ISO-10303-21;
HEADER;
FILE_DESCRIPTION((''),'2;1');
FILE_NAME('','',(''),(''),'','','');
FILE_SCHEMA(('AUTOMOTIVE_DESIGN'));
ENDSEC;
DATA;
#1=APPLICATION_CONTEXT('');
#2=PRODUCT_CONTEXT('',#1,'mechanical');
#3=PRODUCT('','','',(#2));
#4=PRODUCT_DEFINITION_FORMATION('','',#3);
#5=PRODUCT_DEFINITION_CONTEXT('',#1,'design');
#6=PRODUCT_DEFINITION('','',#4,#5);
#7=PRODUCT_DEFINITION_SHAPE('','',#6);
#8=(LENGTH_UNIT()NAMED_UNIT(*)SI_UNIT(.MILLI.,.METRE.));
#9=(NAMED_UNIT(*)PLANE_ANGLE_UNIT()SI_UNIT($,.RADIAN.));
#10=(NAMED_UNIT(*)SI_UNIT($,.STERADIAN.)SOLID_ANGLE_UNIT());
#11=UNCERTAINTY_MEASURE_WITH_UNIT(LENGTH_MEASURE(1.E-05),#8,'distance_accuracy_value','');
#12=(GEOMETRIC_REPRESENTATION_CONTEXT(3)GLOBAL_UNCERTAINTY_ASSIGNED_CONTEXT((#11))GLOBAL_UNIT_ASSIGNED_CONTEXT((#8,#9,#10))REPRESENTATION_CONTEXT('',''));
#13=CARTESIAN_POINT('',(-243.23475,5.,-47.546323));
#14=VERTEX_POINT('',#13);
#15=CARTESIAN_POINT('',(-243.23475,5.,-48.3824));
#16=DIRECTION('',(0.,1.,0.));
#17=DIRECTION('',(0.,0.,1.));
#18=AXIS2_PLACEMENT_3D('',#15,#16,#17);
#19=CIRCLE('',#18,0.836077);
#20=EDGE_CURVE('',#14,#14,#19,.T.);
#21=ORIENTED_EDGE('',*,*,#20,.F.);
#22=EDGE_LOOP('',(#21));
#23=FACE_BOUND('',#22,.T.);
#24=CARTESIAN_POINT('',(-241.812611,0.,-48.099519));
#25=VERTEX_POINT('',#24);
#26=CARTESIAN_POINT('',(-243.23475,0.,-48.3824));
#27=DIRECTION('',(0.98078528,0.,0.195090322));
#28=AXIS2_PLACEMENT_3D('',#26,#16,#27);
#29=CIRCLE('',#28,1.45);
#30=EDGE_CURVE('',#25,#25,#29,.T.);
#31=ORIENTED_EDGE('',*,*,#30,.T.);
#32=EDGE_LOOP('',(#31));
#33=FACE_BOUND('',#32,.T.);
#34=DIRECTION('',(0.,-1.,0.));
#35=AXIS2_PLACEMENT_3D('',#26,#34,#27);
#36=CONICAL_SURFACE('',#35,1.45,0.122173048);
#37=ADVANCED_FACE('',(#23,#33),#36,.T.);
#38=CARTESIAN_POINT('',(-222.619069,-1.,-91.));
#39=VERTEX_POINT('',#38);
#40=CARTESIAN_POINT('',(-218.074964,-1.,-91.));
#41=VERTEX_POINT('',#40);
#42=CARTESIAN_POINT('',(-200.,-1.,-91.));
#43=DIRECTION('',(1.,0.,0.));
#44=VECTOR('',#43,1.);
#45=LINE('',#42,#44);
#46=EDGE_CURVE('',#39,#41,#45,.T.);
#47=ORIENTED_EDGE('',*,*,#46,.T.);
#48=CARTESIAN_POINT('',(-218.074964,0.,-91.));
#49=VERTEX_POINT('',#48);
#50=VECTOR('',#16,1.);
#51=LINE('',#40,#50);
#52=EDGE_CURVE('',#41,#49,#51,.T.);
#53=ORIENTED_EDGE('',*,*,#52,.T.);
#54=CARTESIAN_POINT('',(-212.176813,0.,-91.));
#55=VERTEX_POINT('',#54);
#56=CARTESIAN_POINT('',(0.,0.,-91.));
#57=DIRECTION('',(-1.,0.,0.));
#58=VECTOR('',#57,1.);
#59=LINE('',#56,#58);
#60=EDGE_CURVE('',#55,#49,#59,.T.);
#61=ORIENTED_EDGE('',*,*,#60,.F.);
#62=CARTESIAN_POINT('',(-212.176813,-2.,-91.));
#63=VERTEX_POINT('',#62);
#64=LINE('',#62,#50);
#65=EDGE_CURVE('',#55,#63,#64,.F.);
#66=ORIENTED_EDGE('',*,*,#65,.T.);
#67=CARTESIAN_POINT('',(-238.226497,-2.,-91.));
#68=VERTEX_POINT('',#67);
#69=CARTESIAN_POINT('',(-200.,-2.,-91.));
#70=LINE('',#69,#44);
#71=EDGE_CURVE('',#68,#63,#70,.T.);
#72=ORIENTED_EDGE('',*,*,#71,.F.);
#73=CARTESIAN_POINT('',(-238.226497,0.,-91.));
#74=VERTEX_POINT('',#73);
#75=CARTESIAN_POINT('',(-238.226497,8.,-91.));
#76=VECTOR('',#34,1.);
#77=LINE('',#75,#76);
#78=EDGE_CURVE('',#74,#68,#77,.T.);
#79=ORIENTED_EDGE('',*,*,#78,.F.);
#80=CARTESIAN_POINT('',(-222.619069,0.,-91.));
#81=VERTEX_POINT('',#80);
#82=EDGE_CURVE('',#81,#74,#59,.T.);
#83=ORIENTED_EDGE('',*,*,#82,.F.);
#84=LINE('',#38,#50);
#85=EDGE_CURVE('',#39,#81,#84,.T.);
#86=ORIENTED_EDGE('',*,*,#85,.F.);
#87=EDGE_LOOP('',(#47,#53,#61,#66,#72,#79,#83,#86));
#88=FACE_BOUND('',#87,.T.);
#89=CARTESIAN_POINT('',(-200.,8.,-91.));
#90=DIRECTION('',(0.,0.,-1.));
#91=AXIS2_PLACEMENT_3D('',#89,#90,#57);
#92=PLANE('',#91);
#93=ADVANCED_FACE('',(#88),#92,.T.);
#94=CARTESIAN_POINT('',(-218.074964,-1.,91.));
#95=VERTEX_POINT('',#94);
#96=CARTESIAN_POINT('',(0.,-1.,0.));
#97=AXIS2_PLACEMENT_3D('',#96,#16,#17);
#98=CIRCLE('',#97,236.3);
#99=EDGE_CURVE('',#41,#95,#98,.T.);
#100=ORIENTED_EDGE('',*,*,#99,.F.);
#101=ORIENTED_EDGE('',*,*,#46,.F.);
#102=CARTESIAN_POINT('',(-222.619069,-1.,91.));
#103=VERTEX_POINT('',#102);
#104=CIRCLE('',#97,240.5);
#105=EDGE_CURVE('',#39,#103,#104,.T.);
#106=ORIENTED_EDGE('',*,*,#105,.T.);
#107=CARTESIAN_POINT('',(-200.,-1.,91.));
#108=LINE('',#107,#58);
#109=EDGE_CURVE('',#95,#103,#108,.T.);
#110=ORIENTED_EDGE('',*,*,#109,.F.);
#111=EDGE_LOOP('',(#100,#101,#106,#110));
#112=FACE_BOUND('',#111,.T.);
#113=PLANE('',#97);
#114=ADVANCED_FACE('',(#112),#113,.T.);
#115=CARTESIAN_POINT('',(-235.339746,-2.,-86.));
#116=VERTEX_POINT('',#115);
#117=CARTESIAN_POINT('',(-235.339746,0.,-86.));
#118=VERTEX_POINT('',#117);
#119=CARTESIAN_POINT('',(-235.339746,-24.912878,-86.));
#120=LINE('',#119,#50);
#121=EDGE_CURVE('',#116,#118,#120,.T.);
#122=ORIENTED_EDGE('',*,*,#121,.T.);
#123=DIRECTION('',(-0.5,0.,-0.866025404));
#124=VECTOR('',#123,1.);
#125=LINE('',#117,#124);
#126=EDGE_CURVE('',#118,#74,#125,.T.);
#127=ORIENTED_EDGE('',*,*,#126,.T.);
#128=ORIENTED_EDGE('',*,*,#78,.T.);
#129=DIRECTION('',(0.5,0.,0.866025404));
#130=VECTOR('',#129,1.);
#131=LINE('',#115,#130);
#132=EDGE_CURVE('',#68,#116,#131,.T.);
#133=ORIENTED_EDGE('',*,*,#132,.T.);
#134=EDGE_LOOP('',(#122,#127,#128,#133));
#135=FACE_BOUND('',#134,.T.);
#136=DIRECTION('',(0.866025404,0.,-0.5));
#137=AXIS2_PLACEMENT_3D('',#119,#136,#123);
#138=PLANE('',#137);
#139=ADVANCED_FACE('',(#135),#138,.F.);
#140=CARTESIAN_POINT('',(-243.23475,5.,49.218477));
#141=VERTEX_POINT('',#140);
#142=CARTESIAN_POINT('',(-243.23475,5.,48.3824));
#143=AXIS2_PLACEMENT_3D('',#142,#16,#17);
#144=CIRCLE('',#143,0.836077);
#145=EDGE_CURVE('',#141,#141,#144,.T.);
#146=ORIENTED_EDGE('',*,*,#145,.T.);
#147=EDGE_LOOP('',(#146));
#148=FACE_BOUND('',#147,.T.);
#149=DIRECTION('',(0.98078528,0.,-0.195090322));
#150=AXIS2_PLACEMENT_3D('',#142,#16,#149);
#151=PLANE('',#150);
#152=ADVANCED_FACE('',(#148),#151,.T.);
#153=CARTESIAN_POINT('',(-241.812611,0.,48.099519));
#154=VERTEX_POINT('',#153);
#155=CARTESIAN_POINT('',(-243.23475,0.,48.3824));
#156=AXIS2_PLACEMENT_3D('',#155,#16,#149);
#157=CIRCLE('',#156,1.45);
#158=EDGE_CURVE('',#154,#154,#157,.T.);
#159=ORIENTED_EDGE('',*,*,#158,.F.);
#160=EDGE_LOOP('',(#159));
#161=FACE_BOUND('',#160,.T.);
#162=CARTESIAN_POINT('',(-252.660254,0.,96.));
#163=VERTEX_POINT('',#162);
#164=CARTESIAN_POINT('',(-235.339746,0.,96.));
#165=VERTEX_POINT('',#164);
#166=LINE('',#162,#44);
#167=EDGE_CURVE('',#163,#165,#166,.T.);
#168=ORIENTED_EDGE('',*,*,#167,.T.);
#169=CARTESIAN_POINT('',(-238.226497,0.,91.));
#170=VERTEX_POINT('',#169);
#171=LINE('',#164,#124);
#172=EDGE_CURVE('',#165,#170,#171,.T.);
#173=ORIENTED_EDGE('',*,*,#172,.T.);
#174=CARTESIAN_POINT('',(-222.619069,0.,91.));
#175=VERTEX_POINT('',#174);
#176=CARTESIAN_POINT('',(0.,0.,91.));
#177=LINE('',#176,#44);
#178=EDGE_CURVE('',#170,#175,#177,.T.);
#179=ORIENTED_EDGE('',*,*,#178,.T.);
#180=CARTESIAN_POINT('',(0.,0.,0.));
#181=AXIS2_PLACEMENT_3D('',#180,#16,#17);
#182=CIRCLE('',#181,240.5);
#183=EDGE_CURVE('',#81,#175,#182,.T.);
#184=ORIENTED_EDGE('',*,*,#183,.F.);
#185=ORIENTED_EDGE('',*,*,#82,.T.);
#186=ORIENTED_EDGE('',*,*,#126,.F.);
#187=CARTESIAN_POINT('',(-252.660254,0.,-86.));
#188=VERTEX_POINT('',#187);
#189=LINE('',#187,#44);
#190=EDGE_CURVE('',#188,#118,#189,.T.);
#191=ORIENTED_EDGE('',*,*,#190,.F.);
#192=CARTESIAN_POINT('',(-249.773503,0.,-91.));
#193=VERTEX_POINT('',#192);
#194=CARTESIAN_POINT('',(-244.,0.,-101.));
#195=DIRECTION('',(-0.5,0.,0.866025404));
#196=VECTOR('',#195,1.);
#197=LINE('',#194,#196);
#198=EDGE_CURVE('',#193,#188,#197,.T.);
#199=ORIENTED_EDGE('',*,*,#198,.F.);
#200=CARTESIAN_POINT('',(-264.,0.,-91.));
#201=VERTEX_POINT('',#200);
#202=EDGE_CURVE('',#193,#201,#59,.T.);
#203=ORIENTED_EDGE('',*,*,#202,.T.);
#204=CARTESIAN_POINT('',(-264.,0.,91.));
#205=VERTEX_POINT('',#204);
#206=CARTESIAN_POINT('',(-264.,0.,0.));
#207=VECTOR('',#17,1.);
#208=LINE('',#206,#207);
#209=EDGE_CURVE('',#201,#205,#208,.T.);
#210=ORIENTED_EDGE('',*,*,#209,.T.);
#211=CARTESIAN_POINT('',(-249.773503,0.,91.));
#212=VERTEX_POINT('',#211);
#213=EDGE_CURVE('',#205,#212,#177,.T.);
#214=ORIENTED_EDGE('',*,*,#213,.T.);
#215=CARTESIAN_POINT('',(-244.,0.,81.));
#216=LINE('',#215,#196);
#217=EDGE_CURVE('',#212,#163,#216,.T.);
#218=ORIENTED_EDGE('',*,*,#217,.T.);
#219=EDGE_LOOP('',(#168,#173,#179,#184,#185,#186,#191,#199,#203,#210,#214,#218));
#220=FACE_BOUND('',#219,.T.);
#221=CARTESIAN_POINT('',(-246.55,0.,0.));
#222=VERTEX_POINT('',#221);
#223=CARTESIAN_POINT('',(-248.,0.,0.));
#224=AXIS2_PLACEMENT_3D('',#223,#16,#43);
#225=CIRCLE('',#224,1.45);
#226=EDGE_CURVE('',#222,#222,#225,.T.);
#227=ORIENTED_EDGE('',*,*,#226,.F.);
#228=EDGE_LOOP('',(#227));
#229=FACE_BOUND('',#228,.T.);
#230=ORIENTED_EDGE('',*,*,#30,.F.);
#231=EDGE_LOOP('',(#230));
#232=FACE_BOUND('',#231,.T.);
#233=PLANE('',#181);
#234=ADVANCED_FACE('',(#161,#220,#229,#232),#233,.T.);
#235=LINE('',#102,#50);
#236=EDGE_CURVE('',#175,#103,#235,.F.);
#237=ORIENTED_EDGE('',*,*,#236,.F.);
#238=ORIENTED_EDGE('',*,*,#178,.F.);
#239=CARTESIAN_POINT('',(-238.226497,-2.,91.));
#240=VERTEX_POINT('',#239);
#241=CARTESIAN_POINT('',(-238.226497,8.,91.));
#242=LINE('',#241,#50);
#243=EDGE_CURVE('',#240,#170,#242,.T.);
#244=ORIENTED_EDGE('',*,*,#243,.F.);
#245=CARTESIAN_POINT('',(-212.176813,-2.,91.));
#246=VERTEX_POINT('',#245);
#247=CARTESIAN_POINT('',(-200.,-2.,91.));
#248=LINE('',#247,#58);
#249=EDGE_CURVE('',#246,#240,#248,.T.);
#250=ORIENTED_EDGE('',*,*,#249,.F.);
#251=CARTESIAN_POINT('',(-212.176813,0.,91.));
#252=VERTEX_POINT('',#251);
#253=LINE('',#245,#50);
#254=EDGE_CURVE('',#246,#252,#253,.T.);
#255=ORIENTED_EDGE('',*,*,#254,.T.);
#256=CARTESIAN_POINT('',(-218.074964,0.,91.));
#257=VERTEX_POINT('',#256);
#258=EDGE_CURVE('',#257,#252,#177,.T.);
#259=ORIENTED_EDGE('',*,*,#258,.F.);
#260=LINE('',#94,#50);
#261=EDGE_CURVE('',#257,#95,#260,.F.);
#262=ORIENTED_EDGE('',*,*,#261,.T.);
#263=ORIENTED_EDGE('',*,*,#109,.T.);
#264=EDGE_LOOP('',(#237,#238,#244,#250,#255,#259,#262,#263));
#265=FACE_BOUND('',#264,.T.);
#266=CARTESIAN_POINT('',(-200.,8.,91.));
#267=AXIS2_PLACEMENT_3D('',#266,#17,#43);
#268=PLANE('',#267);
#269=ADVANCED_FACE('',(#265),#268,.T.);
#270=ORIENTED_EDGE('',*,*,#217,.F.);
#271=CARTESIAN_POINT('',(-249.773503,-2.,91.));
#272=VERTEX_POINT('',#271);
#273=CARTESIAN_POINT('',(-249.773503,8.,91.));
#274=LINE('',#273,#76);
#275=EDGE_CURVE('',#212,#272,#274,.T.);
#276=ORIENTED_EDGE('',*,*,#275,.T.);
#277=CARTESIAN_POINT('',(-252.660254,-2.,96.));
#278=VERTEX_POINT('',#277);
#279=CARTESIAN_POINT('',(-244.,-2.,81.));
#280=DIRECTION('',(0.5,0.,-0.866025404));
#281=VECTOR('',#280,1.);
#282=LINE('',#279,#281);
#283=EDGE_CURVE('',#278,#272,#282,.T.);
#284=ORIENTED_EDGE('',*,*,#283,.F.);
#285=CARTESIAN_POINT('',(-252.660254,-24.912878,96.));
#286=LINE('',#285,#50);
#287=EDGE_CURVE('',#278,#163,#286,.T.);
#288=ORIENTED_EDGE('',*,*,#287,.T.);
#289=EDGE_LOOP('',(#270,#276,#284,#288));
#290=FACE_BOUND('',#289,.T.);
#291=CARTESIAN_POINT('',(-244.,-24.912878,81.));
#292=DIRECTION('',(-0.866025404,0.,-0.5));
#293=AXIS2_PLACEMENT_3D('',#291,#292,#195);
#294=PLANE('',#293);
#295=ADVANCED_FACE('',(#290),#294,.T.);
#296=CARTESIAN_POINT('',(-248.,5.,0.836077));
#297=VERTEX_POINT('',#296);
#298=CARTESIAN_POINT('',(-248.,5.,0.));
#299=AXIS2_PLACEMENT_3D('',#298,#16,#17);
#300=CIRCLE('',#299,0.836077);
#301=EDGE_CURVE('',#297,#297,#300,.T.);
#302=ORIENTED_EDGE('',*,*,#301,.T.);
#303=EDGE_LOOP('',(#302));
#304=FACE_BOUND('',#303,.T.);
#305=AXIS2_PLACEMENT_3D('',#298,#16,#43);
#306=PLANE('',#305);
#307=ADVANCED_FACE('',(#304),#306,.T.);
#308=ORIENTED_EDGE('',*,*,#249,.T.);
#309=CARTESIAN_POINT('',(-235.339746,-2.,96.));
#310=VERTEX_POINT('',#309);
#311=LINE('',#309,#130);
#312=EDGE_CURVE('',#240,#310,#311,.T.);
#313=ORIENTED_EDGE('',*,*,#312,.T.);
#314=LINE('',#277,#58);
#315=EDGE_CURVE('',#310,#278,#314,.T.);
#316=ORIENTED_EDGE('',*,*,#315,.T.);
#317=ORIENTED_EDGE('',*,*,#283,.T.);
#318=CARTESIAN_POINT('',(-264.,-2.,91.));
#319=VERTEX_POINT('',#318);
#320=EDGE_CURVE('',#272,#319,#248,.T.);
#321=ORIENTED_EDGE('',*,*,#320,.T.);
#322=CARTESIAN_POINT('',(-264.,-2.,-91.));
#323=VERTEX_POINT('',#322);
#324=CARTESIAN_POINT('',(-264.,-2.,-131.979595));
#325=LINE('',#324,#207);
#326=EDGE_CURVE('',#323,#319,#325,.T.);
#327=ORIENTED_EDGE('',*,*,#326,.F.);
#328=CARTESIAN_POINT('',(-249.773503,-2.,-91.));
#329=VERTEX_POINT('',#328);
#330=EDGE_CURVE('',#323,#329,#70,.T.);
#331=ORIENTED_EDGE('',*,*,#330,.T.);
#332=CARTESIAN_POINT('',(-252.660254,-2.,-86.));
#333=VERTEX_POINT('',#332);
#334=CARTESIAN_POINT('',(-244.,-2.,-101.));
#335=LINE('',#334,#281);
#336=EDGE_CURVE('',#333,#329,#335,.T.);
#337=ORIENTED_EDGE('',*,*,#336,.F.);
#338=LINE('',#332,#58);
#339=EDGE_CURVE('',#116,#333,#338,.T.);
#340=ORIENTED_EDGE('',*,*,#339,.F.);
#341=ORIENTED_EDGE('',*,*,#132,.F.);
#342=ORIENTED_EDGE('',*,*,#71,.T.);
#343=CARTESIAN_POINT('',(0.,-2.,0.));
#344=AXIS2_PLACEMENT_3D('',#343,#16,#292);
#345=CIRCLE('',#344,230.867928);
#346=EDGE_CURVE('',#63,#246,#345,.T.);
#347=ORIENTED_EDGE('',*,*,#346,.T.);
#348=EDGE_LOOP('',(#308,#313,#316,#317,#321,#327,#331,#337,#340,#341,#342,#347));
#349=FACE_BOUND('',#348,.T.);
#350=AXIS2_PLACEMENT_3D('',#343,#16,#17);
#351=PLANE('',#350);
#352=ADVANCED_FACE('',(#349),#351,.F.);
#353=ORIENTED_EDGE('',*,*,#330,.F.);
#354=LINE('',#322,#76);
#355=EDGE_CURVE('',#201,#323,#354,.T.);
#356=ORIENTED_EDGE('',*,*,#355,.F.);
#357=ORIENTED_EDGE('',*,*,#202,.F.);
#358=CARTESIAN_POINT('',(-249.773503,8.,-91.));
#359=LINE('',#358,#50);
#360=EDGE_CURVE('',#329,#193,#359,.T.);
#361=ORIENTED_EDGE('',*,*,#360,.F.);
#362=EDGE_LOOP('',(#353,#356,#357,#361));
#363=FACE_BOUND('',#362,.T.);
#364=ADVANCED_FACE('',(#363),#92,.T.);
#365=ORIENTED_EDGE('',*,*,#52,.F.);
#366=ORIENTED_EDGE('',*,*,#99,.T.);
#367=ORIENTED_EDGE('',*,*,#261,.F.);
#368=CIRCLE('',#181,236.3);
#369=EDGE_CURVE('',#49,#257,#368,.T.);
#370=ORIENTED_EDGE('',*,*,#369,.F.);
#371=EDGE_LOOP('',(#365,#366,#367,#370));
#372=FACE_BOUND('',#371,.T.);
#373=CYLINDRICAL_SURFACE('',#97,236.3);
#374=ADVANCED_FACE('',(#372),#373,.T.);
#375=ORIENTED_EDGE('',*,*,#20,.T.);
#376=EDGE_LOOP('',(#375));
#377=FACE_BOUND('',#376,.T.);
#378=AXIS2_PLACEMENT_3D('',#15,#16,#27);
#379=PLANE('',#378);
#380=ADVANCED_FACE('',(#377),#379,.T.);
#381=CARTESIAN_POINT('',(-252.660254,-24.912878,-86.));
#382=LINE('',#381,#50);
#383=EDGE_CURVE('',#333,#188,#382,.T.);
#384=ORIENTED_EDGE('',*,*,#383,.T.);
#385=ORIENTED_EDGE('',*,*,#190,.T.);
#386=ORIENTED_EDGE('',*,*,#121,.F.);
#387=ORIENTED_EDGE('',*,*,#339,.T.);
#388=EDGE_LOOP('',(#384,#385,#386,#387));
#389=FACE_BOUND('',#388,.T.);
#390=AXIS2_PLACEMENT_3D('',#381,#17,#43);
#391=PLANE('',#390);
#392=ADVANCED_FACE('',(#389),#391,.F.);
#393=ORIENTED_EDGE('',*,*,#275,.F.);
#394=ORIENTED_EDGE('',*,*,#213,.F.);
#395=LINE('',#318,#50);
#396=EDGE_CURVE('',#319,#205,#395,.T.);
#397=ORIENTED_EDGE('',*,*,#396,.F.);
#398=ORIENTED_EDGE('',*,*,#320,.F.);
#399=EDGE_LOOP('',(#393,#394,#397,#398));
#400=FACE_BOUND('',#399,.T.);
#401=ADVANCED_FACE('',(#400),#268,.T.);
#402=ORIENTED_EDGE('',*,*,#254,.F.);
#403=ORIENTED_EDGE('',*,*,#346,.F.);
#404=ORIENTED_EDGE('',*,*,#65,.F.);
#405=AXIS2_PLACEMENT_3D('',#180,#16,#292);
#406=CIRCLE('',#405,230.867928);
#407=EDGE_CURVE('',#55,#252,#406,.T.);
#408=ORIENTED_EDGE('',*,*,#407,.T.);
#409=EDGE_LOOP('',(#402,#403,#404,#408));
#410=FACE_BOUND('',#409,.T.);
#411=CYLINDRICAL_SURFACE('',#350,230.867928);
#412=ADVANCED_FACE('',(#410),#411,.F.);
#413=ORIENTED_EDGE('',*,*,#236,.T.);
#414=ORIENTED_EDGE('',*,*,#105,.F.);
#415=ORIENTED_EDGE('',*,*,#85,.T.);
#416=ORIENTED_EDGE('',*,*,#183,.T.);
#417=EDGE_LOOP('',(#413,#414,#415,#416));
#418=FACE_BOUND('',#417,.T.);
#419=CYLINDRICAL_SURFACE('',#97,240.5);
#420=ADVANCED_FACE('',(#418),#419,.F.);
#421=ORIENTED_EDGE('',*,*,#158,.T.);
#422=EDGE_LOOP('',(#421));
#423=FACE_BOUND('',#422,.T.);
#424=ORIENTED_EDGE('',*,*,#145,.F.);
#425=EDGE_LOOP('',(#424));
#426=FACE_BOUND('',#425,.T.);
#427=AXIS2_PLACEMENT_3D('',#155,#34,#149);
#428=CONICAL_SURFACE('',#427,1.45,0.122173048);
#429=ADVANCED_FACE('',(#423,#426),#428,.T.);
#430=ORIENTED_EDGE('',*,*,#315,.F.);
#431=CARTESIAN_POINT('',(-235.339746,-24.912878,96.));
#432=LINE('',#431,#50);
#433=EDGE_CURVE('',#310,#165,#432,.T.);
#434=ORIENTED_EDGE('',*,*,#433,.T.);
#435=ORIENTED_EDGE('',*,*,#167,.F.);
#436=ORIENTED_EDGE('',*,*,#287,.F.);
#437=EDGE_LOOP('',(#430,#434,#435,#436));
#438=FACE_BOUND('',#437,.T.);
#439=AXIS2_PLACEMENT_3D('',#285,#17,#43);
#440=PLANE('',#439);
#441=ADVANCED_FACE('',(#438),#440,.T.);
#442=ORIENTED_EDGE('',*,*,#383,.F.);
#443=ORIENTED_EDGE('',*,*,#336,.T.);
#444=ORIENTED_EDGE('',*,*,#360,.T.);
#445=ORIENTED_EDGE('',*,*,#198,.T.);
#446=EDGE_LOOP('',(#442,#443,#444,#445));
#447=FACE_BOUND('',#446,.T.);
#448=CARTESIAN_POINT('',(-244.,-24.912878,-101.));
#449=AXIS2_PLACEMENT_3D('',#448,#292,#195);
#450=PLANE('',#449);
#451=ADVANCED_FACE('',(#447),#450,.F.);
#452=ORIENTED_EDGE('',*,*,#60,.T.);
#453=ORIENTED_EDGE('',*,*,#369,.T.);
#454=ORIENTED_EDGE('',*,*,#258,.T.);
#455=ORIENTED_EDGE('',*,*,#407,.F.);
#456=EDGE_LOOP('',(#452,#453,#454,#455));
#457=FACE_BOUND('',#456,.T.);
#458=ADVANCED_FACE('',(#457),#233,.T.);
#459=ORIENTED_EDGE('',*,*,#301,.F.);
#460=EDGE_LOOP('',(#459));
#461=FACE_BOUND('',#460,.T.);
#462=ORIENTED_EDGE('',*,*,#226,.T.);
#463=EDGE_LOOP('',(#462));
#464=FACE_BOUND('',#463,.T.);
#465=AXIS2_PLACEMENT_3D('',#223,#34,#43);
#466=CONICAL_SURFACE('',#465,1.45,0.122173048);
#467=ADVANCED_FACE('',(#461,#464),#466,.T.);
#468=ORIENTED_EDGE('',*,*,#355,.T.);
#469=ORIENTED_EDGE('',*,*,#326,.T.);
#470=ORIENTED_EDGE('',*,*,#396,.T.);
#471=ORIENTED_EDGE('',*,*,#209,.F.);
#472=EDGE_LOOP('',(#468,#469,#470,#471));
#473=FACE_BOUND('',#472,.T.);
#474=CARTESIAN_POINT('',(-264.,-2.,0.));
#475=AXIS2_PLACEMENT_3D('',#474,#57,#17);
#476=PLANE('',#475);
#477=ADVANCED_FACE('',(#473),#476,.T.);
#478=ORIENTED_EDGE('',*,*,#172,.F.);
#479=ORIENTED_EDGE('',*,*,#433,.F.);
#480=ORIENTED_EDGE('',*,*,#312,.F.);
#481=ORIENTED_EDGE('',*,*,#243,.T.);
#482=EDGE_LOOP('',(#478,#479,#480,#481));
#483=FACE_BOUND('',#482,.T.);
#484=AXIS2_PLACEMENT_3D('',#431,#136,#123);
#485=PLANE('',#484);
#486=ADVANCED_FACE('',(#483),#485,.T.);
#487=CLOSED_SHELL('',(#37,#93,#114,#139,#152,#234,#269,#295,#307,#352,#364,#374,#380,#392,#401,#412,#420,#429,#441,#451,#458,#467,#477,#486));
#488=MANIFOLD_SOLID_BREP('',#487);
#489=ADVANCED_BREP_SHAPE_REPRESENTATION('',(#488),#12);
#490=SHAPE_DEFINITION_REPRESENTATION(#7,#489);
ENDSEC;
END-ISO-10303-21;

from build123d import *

# Parameters (mm, degrees)
BASEPLATE_PROFILE_DEPTH               = 2
SKETCH2_R                             = 1.45
M3_PINS_DEPTH                         = 5
M3_PINS_TAPER                         = 7
CIRPATTERN1_COUNT                     = 32
SKETCH4_R                             = 1
PILLAR_PINS_DEPTH                     = 5
PILLAR_PINS_DRAFT                     = 6
PILLAR_PINS_PROFILE_2_DEPTH           = 5
PILLAR_PINS_PROFILE_2_DRAFT           = 6
CIRPATTERN2_COPY_1_SKETCH_R           = 1
CIRPATTERN2_COPY_1_DEPTH              = 5
CIRPATTERN2_COPY_1_DRAFT              = 6
CIRPATTERN2_COPY_2_SKETCH_R           = 1
CIRPATTERN2_COPY_2_DEPTH              = 5
CIRPATTERN2_COPY_2_DRAFT              = 6
CIRPATTERN2_COPY_3_SKETCH_R           = 1
CIRPATTERN2_COPY_3_DEPTH              = 5
CIRPATTERN2_COPY_3_DRAFT              = 6
CIRPATTERN2_COPY_4_SKETCH_R           = 1
CIRPATTERN2_COPY_4_DEPTH              = 5
CIRPATTERN2_COPY_4_DRAFT              = 6
CIRPATTERN2_COPY_5_SKETCH_R           = 1
CIRPATTERN2_COPY_5_DEPTH              = 5
CIRPATTERN2_COPY_5_DRAFT              = 6
CIRPATTERN2_COPY_6_SKETCH_R           = 1
CIRPATTERN2_COPY_6_DEPTH              = 5
CIRPATTERN2_COPY_6_DRAFT              = 6
CIRPATTERN2_COPY_7_SKETCH_R           = 1
CIRPATTERN2_COPY_7_DEPTH              = 5
CIRPATTERN2_COPY_7_DRAFT              = 6
CIRPATTERN2_COPY_8_SKETCH_R           = 1
CIRPATTERN2_COPY_8_DEPTH              = 5
CIRPATTERN2_COPY_8_DRAFT              = 6
CIRPATTERN2_COPY_9_SKETCH_R           = 1
CIRPATTERN2_COPY_9_DEPTH              = 5
CIRPATTERN2_COPY_9_DRAFT              = 6
CIRPATTERN2_COPY_10_SKETCH_R          = 1
CIRPATTERN2_COPY_10_DEPTH             = 5
CIRPATTERN2_COPY_10_DRAFT             = 6
CIRPATTERN2_COPY_11_SKETCH_R          = 1
CIRPATTERN2_COPY_11_DEPTH             = 5
CIRPATTERN2_COPY_11_DRAFT             = 6
CIRPATTERN2_COPY_12_SKETCH_R          = 1
CIRPATTERN2_COPY_12_DEPTH             = 5
CIRPATTERN2_COPY_12_DRAFT             = 6
CIRPATTERN2_COPY_13_SKETCH_R          = 1
CIRPATTERN2_COPY_13_DEPTH             = 5
CIRPATTERN2_COPY_13_DRAFT             = 6
CIRPATTERN2_COPY_14_SKETCH_R          = 1
CIRPATTERN2_COPY_14_DEPTH             = 5
CIRPATTERN2_COPY_14_DRAFT             = 6
CIRPATTERN2_COPY_15_SKETCH_R          = 1
CIRPATTERN2_COPY_15_DEPTH             = 5
CIRPATTERN2_COPY_15_DRAFT             = 6
SKETCH5_R                             = 3
M8_HOLE_1_DEPTH                       = 5
M8_HOLE_1_TAPER                       = 12
M8_1_PATTERN_COUNT                    = 4
SKETCH6_R                             = 3
EXTRUDE_M8_2_DEPTH                    = 5
EXTRUDE_M8_2_TAPER                    = 12
M8_2_PATTERN_COUNT                    = 4
PATTERN_CIRCULAR_M8_3_COUNT           = 2
PATTERN_CIRCULAR_M8_3_ANGLE           = 36.9
PATTERN_CIRCULAR_M8_3_COPY_1_SKETCH_R = 3
PATTERN_CIRCULAR_M8_3_COPY_1_DEPTH    = 5
PATTERN_CIRCULAR_M8_3_COPY_1_TAPER    = 12
PATTERN_CIRCULAR_M8_3_COPY_2_SKETCH_R = 3
PATTERN_CIRCULAR_M8_3_COPY_2_DEPTH    = 5
PATTERN_CIRCULAR_M8_3_COPY_2_TAPER    = 12
PATTERN_CIRCULAR_M8_3_COPY_3_SKETCH_R = 3
PATTERN_CIRCULAR_M8_3_COPY_3_DEPTH    = 5
PATTERN_CIRCULAR_M8_3_COPY_3_TAPER    = 12
CUT_CENTER_DEPTH                      = 374.385859402
CIRPATTERN7_COUNT                     = 6
SKETCH12_W                            = 610.181250352
SKETCH12_H                            = 664.04441738
SKETCH12_W_2                          = 90
SKETCH12_H_2                          = 182
CUT_EXTRUDE1_DEPTH                    = 10
BOSS_EXTRUDE1_DEPTH                   = 2
CUT_EXTRUDE2_DEPTH                    = 2
SKETCH15_R                            = 240.5
SKETCH15_R_2                          = 236.3
ORING_SPACE_DEPTH                     = 1


with BuildPart() as part:
    # Sketch1 → baseplate profile (new body)
    with BuildSketch(Plane(origin=(0, 0, 0), x_dir=(1, 0, 0), z_dir=(0, 1, 0))):
        Polygon((264, 0), (264, 131.98), (131.979594929, 264), (0, 264), (-131.98, 264), (-264, 131.979594929), (-264, 0), (-264, -131.98), (-131.979594929, -264), (0, -264), (131.98, -264), (264, -131.979594929), align=None)
    extrude(amount=-BASEPLATE_PROFILE_DEPTH)

    # Sketch2 → M3 pins (add)
    with BuildSketch(Plane(origin=(0, 0, 0), x_dir=(1, 0, 0), z_dir=(0, 1, 0))):
        with Locations((0, 248)):
            Circle(SKETCH2_R)
    m3_pins = extrude(amount=M3_PINS_DEPTH, taper=M3_PINS_TAPER)

    # CirPattern1: M3 pins ×32 about axis
    cirpattern1_axis = Axis((0, 0, 0), (0, 1, 0))
    for i in range(1, CIRPATTERN1_COUNT):
        add(m3_pins.rotate(cirpattern1_axis, i * 360 / CIRPATTERN1_COUNT))


with BuildPart() as pillar_pins_tool:
    # Sketch4 → pillar pins (with draft: the straight prism first)
    with BuildSketch(Plane(origin=(0, 0, 0), x_dir=(1, 0, 0), z_dir=(0, 1, 0))):
        with Locations((9, 201)):
            Circle(SKETCH4_R)
    extrude(amount=PILLAR_PINS_DEPTH)
    # pillar pins: the draft: its side faces are tilted about the plane it starts from
    pillar_pins_sides = [pillar_pins_tool.faces().sort_by_distance(p)[0] for p in [
        (8, 2.5, -201),
    ]]
    draft(pillar_pins_sides, Plane(origin=(0, 0, 0), x_dir=(1, 0, 0), z_dir=(0, 1, 0)), PILLAR_PINS_DRAFT)


with BuildPart() as part_1:
    add(part.part)

    # pillar pins: add pillar_pins_tool
    add(pillar_pins_tool.part)


with BuildPart() as pillar_pins_profile_2_tool:
    # Sketch4 → pillar pins profile 2 (with draft: the straight prism first)
    with BuildSketch(Plane(origin=(0, 0, 0), x_dir=(1, 0, 0), z_dir=(0, 1, 0))):
        with Locations((-9, 201)):
            Circle(SKETCH4_R)
    extrude(amount=PILLAR_PINS_PROFILE_2_DEPTH)
    # pillar pins profile 2: the draft: its side faces are tilted about the plane it starts from
    pillar_pins_profile_2_sides = [pillar_pins_profile_2_tool.faces().sort_by_distance(p)[0] for p in [
        (-10, 2.5, -201),
    ]]
    draft(pillar_pins_profile_2_sides, Plane(origin=(0, 0, 0), x_dir=(1, 0, 0), z_dir=(0, 1, 0)), PILLAR_PINS_PROFILE_2_DRAFT)


with BuildPart() as part_2:
    add(part_1.part)

    # pillar pins profile 2: add pillar_pins_profile_2_tool
    add(pillar_pins_profile_2_tool.part)


with BuildPart() as cirpattern2_copy_1_tool:
    # CirPattern2 copy 1 sketch → CirPattern2 copy 1 (with draft: the straight prism first)
    with BuildSketch(Plane(origin=(0, 0, 0), x_dir=(0.5000000000000001, 0, -0.8660254037844386), z_dir=(0, 1, 0))):
        with Locations((9, 201)):
            Circle(CIRPATTERN2_COPY_1_SKETCH_R)
    extrude(amount=CIRPATTERN2_COPY_1_DEPTH)
    # CirPattern2 copy 1: the draft: its side faces are tilted about the plane it starts from
    cirpattern2_copy_1_sides = [cirpattern2_copy_1_tool.faces().sort_by_distance(p)[0] for p in [
        (-170.071106161, 2.5, -107.42820323),
    ]]
    draft(cirpattern2_copy_1_sides, Plane(origin=(0, 0, 0), x_dir=(0.5000000000000001, 0, -0.8660254037844386), z_dir=(0, 1, 0)), CIRPATTERN2_COPY_1_DRAFT)


with BuildPart() as part_3:
    add(part_2.part)

    # CirPattern2 copy 1: add cirpattern2_copy_1_tool
    add(cirpattern2_copy_1_tool.part)


with BuildPart() as cirpattern2_copy_2_tool:
    # CirPattern2 copy 2 sketch → CirPattern2 copy 2 (with draft: the straight prism first)
    with BuildSketch(Plane(origin=(0, 0, 0), x_dir=(-0.4999999999999998, 0, -0.8660254037844387), z_dir=(0, 1, 0))):
        with Locations((9, 201)):
            Circle(CIRPATTERN2_COPY_2_SKETCH_R)
    extrude(amount=CIRPATTERN2_COPY_2_DEPTH)
    # CirPattern2 copy 2: the draft: its side faces are tilted about the plane it starts from
    cirpattern2_copy_2_sides = [cirpattern2_copy_2_tool.faces().sort_by_distance(p)[0] for p in [
        (-178.071106161, 2.5, 93.57179677),
    ]]
    draft(cirpattern2_copy_2_sides, Plane(origin=(0, 0, 0), x_dir=(-0.4999999999999998, 0, -0.8660254037844387), z_dir=(0, 1, 0)), CIRPATTERN2_COPY_2_DRAFT)


with BuildPart() as part_4:
    add(part_3.part)

    # CirPattern2 copy 2: add cirpattern2_copy_2_tool
    add(cirpattern2_copy_2_tool.part)


with BuildPart() as cirpattern2_copy_3_tool:
    # CirPattern2 copy 3 sketch → CirPattern2 copy 3 (with draft: the straight prism first)
    with BuildSketch(Plane(origin=(0, 0, 0), x_dir=(-1, 0, 0), z_dir=(0, 1, 0))):
        with Locations((9, 201)):
            Circle(CIRPATTERN2_COPY_3_SKETCH_R)
    extrude(amount=CIRPATTERN2_COPY_3_DEPTH)
    # CirPattern2 copy 3: the draft: its side faces are tilted about the plane it starts from
    cirpattern2_copy_3_sides = [cirpattern2_copy_3_tool.faces().sort_by_distance(p)[0] for p in [
        (-8, 2.5, 201),
    ]]
    draft(cirpattern2_copy_3_sides, Plane(origin=(0, 0, 0), x_dir=(-1, 0, 0), z_dir=(0, 1, 0)), CIRPATTERN2_COPY_3_DRAFT)


with BuildPart() as part_5:
    add(part_4.part)

    # CirPattern2 copy 3: add cirpattern2_copy_3_tool
    add(cirpattern2_copy_3_tool.part)


with BuildPart() as cirpattern2_copy_4_tool:
    # CirPattern2 copy 4 sketch → CirPattern2 copy 4 (with draft: the straight prism first)
    with BuildSketch(Plane(origin=(0, 0, 0), x_dir=(-0.5000000000000004, 0, 0.8660254037844384), z_dir=(0, 1, 0))):
        with Locations((9, 201)):
            Circle(CIRPATTERN2_COPY_4_SKETCH_R)
    extrude(amount=CIRPATTERN2_COPY_4_DEPTH)
    # CirPattern2 copy 4: the draft: its side faces are tilted about the plane it starts from
    cirpattern2_copy_4_sides = [cirpattern2_copy_4_tool.faces().sort_by_distance(p)[0] for p in [
        (170.071106161, 2.5, 107.42820323),
    ]]
    draft(cirpattern2_copy_4_sides, Plane(origin=(0, 0, 0), x_dir=(-0.5000000000000004, 0, 0.8660254037844384), z_dir=(0, 1, 0)), CIRPATTERN2_COPY_4_DRAFT)


with BuildPart() as part_6:
    add(part_5.part)

    # CirPattern2 copy 4: add cirpattern2_copy_4_tool
    add(cirpattern2_copy_4_tool.part)


with BuildPart() as cirpattern2_copy_5_tool:
    # CirPattern2 copy 5 sketch → CirPattern2 copy 5 (with draft: the straight prism first)
    with BuildSketch(Plane(origin=(0, 0, 0), x_dir=(0.5000000000000001, 0, 0.8660254037844386), z_dir=(0, 1, 0))):
        with Locations((9, 201)):
            Circle(CIRPATTERN2_COPY_5_SKETCH_R)
    extrude(amount=CIRPATTERN2_COPY_5_DEPTH)
    # CirPattern2 copy 5: the draft: its side faces are tilted about the plane it starts from
    cirpattern2_copy_5_sides = [cirpattern2_copy_5_tool.faces().sort_by_distance(p)[0] for p in [
        (178.071106161, 2.5, -93.57179677),
    ]]
    draft(cirpattern2_copy_5_sides, Plane(origin=(0, 0, 0), x_dir=(0.5000000000000001, 0, 0.8660254037844386), z_dir=(0, 1, 0)), CIRPATTERN2_COPY_5_DRAFT)


with BuildPart() as part_7:
    add(part_6.part)

    # CirPattern2 copy 5: add cirpattern2_copy_5_tool
    add(cirpattern2_copy_5_tool.part)


with BuildPart() as cirpattern2_copy_6_tool:
    # CirPattern2 copy 6 sketch → CirPattern2 copy 6 (with draft: the straight prism first)
    with BuildSketch(Plane(origin=(0, 0, 0), x_dir=(0.5000000000000001, 0, -0.8660254037844386), z_dir=(0, 1, 0))):
        with Locations((-9, 201)):
            Circle(CIRPATTERN2_COPY_6_SKETCH_R)
    extrude(amount=CIRPATTERN2_COPY_6_DEPTH)
    # CirPattern2 copy 6: the draft: its side faces are tilted about the plane it starts from
    cirpattern2_copy_6_sides = [cirpattern2_copy_6_tool.faces().sort_by_distance(p)[0] for p in [
        (-179.071106161, 2.5, -91.839745962),
    ]]
    draft(cirpattern2_copy_6_sides, Plane(origin=(0, 0, 0), x_dir=(0.5000000000000001, 0, -0.8660254037844386), z_dir=(0, 1, 0)), CIRPATTERN2_COPY_6_DRAFT)


with BuildPart() as part_8:
    add(part_7.part)

    # CirPattern2 copy 6: add cirpattern2_copy_6_tool
    add(cirpattern2_copy_6_tool.part)


with BuildPart() as cirpattern2_copy_7_tool:
    # CirPattern2 copy 7 sketch → CirPattern2 copy 7 (with draft: the straight prism first)
    with BuildSketch(Plane(origin=(0, 0, 0), x_dir=(-0.4999999999999998, 0, -0.8660254037844387), z_dir=(0, 1, 0))):
        with Locations((-9, 201)):
            Circle(CIRPATTERN2_COPY_7_SKETCH_R)
    extrude(amount=CIRPATTERN2_COPY_7_DEPTH)
    # CirPattern2 copy 7: the draft: its side faces are tilted about the plane it starts from
    cirpattern2_copy_7_sides = [cirpattern2_copy_7_tool.faces().sort_by_distance(p)[0] for p in [
        (-169.071106161, 2.5, 109.160254038),
    ]]
    draft(cirpattern2_copy_7_sides, Plane(origin=(0, 0, 0), x_dir=(-0.4999999999999998, 0, -0.8660254037844387), z_dir=(0, 1, 0)), CIRPATTERN2_COPY_7_DRAFT)


with BuildPart() as part_9:
    add(part_8.part)

    # CirPattern2 copy 7: add cirpattern2_copy_7_tool
    add(cirpattern2_copy_7_tool.part)


with BuildPart() as cirpattern2_copy_8_tool:
    # CirPattern2 copy 8 sketch → CirPattern2 copy 8 (with draft: the straight prism first)
    with BuildSketch(Plane(origin=(0, 0, 0), x_dir=(-1, 0, 0), z_dir=(0, 1, 0))):
        with Locations((-9, 201)):
            Circle(CIRPATTERN2_COPY_8_SKETCH_R)
    extrude(amount=CIRPATTERN2_COPY_8_DEPTH)
    # CirPattern2 copy 8: the draft: its side faces are tilted about the plane it starts from
    cirpattern2_copy_8_sides = [cirpattern2_copy_8_tool.faces().sort_by_distance(p)[0] for p in [
        (10, 2.5, 201),
    ]]
    draft(cirpattern2_copy_8_sides, Plane(origin=(0, 0, 0), x_dir=(-1, 0, 0), z_dir=(0, 1, 0)), CIRPATTERN2_COPY_8_DRAFT)


with BuildPart() as part_10:
    add(part_9.part)

    # CirPattern2 copy 8: add cirpattern2_copy_8_tool
    add(cirpattern2_copy_8_tool.part)


with BuildPart() as cirpattern2_copy_9_tool:
    # CirPattern2 copy 9 sketch → CirPattern2 copy 9 (with draft: the straight prism first)
    with BuildSketch(Plane(origin=(0, 0, 0), x_dir=(-0.5000000000000004, 0, 0.8660254037844384), z_dir=(0, 1, 0))):
        with Locations((-9, 201)):
            Circle(CIRPATTERN2_COPY_9_SKETCH_R)
    extrude(amount=CIRPATTERN2_COPY_9_DEPTH)
    # CirPattern2 copy 9: the draft: its side faces are tilted about the plane it starts from
    cirpattern2_copy_9_sides = [cirpattern2_copy_9_tool.faces().sort_by_distance(p)[0] for p in [
        (179.071106161, 2.5, 91.839745962),
    ]]
    draft(cirpattern2_copy_9_sides, Plane(origin=(0, 0, 0), x_dir=(-0.5000000000000004, 0, 0.8660254037844384), z_dir=(0, 1, 0)), CIRPATTERN2_COPY_9_DRAFT)


with BuildPart() as part_11:
    add(part_10.part)

    # CirPattern2 copy 9: add cirpattern2_copy_9_tool
    add(cirpattern2_copy_9_tool.part)


with BuildPart() as cirpattern2_copy_10_tool:
    # CirPattern2 copy 10 sketch → CirPattern2 copy 10 (with draft: the straight prism first)
    with BuildSketch(Plane(origin=(0, 0, 0), x_dir=(0.5000000000000001, 0, 0.8660254037844386), z_dir=(0, 1, 0))):
        with Locations((-9, 201)):
            Circle(CIRPATTERN2_COPY_10_SKETCH_R)
    extrude(amount=CIRPATTERN2_COPY_10_DEPTH)
    # CirPattern2 copy 10: the draft: its side faces are tilted about the plane it starts from
    cirpattern2_copy_10_sides = [cirpattern2_copy_10_tool.faces().sort_by_distance(p)[0] for p in [
        (169.071106161, 2.5, -109.160254038),
    ]]
    draft(cirpattern2_copy_10_sides, Plane(origin=(0, 0, 0), x_dir=(0.5000000000000001, 0, 0.8660254037844386), z_dir=(0, 1, 0)), CIRPATTERN2_COPY_10_DRAFT)


with BuildPart() as part_12:
    add(part_11.part)

    # CirPattern2 copy 10: add cirpattern2_copy_10_tool
    add(cirpattern2_copy_10_tool.part)


with BuildPart() as cirpattern2_copy_11_tool:
    # CirPattern2 copy 11 sketch → CirPattern2 copy 11 (with draft: the straight prism first)
    with BuildSketch(Plane(origin=(0, 0, 0), x_dir=(0.5000000000000001, 0, -0.8660254037844386), z_dir=(0, 1, 0))):
        with Locations((-9, 201)):
            Circle(CIRPATTERN2_COPY_11_SKETCH_R)
    extrude(amount=CIRPATTERN2_COPY_11_DEPTH)
    # CirPattern2 copy 11: the draft: its side faces are tilted about the plane it starts from
    cirpattern2_copy_11_sides = [cirpattern2_copy_11_tool.faces().sort_by_distance(p)[0] for p in [
        (-179.071106161, 2.5, -91.839745962),
    ]]
    draft(cirpattern2_copy_11_sides, Plane(origin=(0, 0, 0), x_dir=(0.5000000000000001, 0, -0.8660254037844386), z_dir=(0, 1, 0)), CIRPATTERN2_COPY_11_DRAFT)


with BuildPart() as part_13:
    add(part_12.part)

    # CirPattern2 copy 11: add cirpattern2_copy_11_tool
    add(cirpattern2_copy_11_tool.part)


with BuildPart() as cirpattern2_copy_12_tool:
    # CirPattern2 copy 12 sketch → CirPattern2 copy 12 (with draft: the straight prism first)
    with BuildSketch(Plane(origin=(0, 0, 0), x_dir=(-0.4999999999999998, 0, -0.8660254037844387), z_dir=(0, 1, 0))):
        with Locations((-9, 201)):
            Circle(CIRPATTERN2_COPY_12_SKETCH_R)
    extrude(amount=CIRPATTERN2_COPY_12_DEPTH)
    # CirPattern2 copy 12: the draft: its side faces are tilted about the plane it starts from
    cirpattern2_copy_12_sides = [cirpattern2_copy_12_tool.faces().sort_by_distance(p)[0] for p in [
        (-169.071106161, 2.5, 109.160254038),
    ]]
    draft(cirpattern2_copy_12_sides, Plane(origin=(0, 0, 0), x_dir=(-0.4999999999999998, 0, -0.8660254037844387), z_dir=(0, 1, 0)), CIRPATTERN2_COPY_12_DRAFT)


with BuildPart() as part_14:
    add(part_13.part)

    # CirPattern2 copy 12: add cirpattern2_copy_12_tool
    add(cirpattern2_copy_12_tool.part)


with BuildPart() as cirpattern2_copy_13_tool:
    # CirPattern2 copy 13 sketch → CirPattern2 copy 13 (with draft: the straight prism first)
    with BuildSketch(Plane(origin=(0, 0, 0), x_dir=(-1, 0, 0), z_dir=(0, 1, 0))):
        with Locations((-9, 201)):
            Circle(CIRPATTERN2_COPY_13_SKETCH_R)
    extrude(amount=CIRPATTERN2_COPY_13_DEPTH)
    # CirPattern2 copy 13: the draft: its side faces are tilted about the plane it starts from
    cirpattern2_copy_13_sides = [cirpattern2_copy_13_tool.faces().sort_by_distance(p)[0] for p in [
        (10, 2.5, 201),
    ]]
    draft(cirpattern2_copy_13_sides, Plane(origin=(0, 0, 0), x_dir=(-1, 0, 0), z_dir=(0, 1, 0)), CIRPATTERN2_COPY_13_DRAFT)


with BuildPart() as part_15:
    add(part_14.part)

    # CirPattern2 copy 13: add cirpattern2_copy_13_tool
    add(cirpattern2_copy_13_tool.part)


with BuildPart() as cirpattern2_copy_14_tool:
    # CirPattern2 copy 14 sketch → CirPattern2 copy 14 (with draft: the straight prism first)
    with BuildSketch(Plane(origin=(0, 0, 0), x_dir=(-0.5000000000000004, 0, 0.8660254037844384), z_dir=(0, 1, 0))):
        with Locations((-9, 201)):
            Circle(CIRPATTERN2_COPY_14_SKETCH_R)
    extrude(amount=CIRPATTERN2_COPY_14_DEPTH)
    # CirPattern2 copy 14: the draft: its side faces are tilted about the plane it starts from
    cirpattern2_copy_14_sides = [cirpattern2_copy_14_tool.faces().sort_by_distance(p)[0] for p in [
        (179.071106161, 2.5, 91.839745962),
    ]]
    draft(cirpattern2_copy_14_sides, Plane(origin=(0, 0, 0), x_dir=(-0.5000000000000004, 0, 0.8660254037844384), z_dir=(0, 1, 0)), CIRPATTERN2_COPY_14_DRAFT)


with BuildPart() as part_16:
    add(part_15.part)

    # CirPattern2 copy 14: add cirpattern2_copy_14_tool
    add(cirpattern2_copy_14_tool.part)


with BuildPart() as cirpattern2_copy_15_tool:
    # CirPattern2 copy 15 sketch → CirPattern2 copy 15 (with draft: the straight prism first)
    with BuildSketch(Plane(origin=(0, 0, 0), x_dir=(0.5000000000000001, 0, 0.8660254037844386), z_dir=(0, 1, 0))):
        with Locations((-9, 201)):
            Circle(CIRPATTERN2_COPY_15_SKETCH_R)
    extrude(amount=CIRPATTERN2_COPY_15_DEPTH)
    # CirPattern2 copy 15: the draft: its side faces are tilted about the plane it starts from
    cirpattern2_copy_15_sides = [cirpattern2_copy_15_tool.faces().sort_by_distance(p)[0] for p in [
        (169.071106161, 2.5, -109.160254038),
    ]]
    draft(cirpattern2_copy_15_sides, Plane(origin=(0, 0, 0), x_dir=(0.5000000000000001, 0, 0.8660254037844386), z_dir=(0, 1, 0)), CIRPATTERN2_COPY_15_DRAFT)


with BuildPart() as part_17:
    add(part_16.part)

    # CirPattern2 copy 15: add cirpattern2_copy_15_tool
    add(cirpattern2_copy_15_tool.part)

    # Sketch5 → M8 hole -1 (add)
    with BuildSketch(Plane(origin=(0, 0, 0), x_dir=(1, 0, 0), z_dir=(0, 1, 0))):
        with Locations((-193.040151264, 193.040151264)):
            Circle(SKETCH5_R)
    m8_hole_1 = extrude(amount=M8_HOLE_1_DEPTH, taper=M8_HOLE_1_TAPER)

    # M8 -1 pattern: M8 hole -1 ×4 about axis
    m8_1_pattern_axis = Axis((0, 0, 0), (0, 1, 0))
    for i in range(1, M8_1_PATTERN_COUNT):
        add(m8_hole_1.rotate(m8_1_pattern_axis, i * 360 / M8_1_PATTERN_COUNT))

    # Sketch6 → M8 -2 (add)
    with BuildSketch(Plane(origin=(0, 0, 0), x_dir=(1, 0, 0), z_dir=(0, 1, 0))):
        with Locations((-125, -250)):
            Circle(SKETCH6_R)
    extrude_m8_2 = extrude(amount=EXTRUDE_M8_2_DEPTH, taper=EXTRUDE_M8_2_TAPER)

    # M8 -2 pattern: M8 -2 ×4 about axis
    m8_2_pattern_axis = Axis((0, 0, 0), (0, 1, 0))
    for i in range(1, M8_2_PATTERN_COUNT):
        add(extrude_m8_2.rotate(m8_2_pattern_axis, i * 360 / M8_2_PATTERN_COUNT))

    # M8 -3: M8 -2 ×2 about axis
    pattern_circular_m8_3_axis = Axis((0, 0, 0), (0, -1, 0))
    for i in range(1, PATTERN_CIRCULAR_M8_3_COUNT):
        add(extrude_m8_2.rotate(pattern_circular_m8_3_axis, i * PATTERN_CIRCULAR_M8_3_ANGLE / (PATTERN_CIRCULAR_M8_3_COUNT - 1)))

    # M8 -3 copy 1 sketch → M8 -3 copy 1 (add)
    with BuildSketch(Plane(origin=(0, 0, 0), x_dir=(0.6004202253258852, 0, -0.7996846584870897), z_dir=(0, 1, 0))):
        with Locations((-125, -250)):
            Circle(PATTERN_CIRCULAR_M8_3_COPY_1_SKETCH_R)
    extrude(amount=PATTERN_CIRCULAR_M8_3_COPY_1_DEPTH, taper=PATTERN_CIRCULAR_M8_3_COPY_1_TAPER)

    # M8 -3 copy 2 sketch → M8 -3 copy 2 (add)
    with BuildSketch(Plane(origin=(0, 0, 0), x_dir=(-0.7996846584870896, 0, -0.6004202253258853), z_dir=(0, 1, 0))):
        with Locations((-125, -250)):
            Circle(PATTERN_CIRCULAR_M8_3_COPY_2_SKETCH_R)
    extrude(amount=PATTERN_CIRCULAR_M8_3_COPY_2_DEPTH, taper=PATTERN_CIRCULAR_M8_3_COPY_2_TAPER)

    # M8 -3 copy 3 sketch → M8 -3 copy 3 (add)
    with BuildSketch(Plane(origin=(0, 0, 0), x_dir=(-0.6004202253258853, 0, 0.7996846584870896), z_dir=(0, 1, 0))):
        with Locations((-125, -250)):
            Circle(PATTERN_CIRCULAR_M8_3_COPY_3_SKETCH_R)
    extrude(amount=PATTERN_CIRCULAR_M8_3_COPY_3_DEPTH, taper=PATTERN_CIRCULAR_M8_3_COPY_3_TAPER)

    # Sketch8 → cut center (cut, through all)
    with BuildSketch(Plane(origin=(0, 0, 0), x_dir=(1, 0, 0), z_dir=(0, 1, 0))):
        with BuildLine():
            Line((115.433963806, -199.937490231), (0, 0))
            Line((0, 0), (0, -180))
            Line((0, -180), (20, -180))
            Line((20, -180), (20, -230))
            ThreePointArc((20, -230), (69.365180469, -220.200980331), (115.433963806, -199.937490231))
        make_face()
        with BuildLine():
            Line((0, -180), (0, 0))
            Line((0, 0), (-115.433963806, -199.937490231))
            ThreePointArc((-115.433963806, -199.937490231), (-69.365180469, -220.200980331), (-20, -230))
            Line((-20, -230), (-20, -180))
            Line((-20, -180), (0, -180))
        make_face()
    cut_center = extrude(amount=-CUT_CENTER_DEPTH, mode=Mode.SUBTRACT)

    # CirPattern7: cut center ×6 about axis
    cirpattern7_axis = Axis((0, 0, 0), (0, 1, 0))
    for i in range(1, CIRPATTERN7_COUNT):
        add(cut_center.rotate(cirpattern7_axis, i * 360 / CIRPATTERN7_COUNT), mode=Mode.SUBTRACT)

    # Sketch12 → Cut-Extrude1 (cut)
    with BuildSketch(Plane.XZ.offset(2)):
        with Locations((-1.205891799, -1.607855732)):
            Rectangle(SKETCH12_W, SKETCH12_H)
        with Locations((-245, 0)):
            Rectangle(SKETCH12_W_2, SKETCH12_H_2, mode=Mode.SUBTRACT)
    extrude(amount=-CUT_EXTRUDE1_DEPTH, mode=Mode.SUBTRACT)

    # Sketch13 → Boss-Extrude1 (add)
    with BuildSketch(Plane(origin=(0, 0, 0), x_dir=(1, 0, 0), z_dir=(0, 1, 0))):
        Polygon((-252.660254038, -96), (-235.339745962, -96), (-244, -81), align=None)
    extrude(amount=-BOSS_EXTRUDE1_DEPTH)

    # Sketch14 → Cut-Extrude2 (cut)
    with BuildSketch(Plane(origin=(0, 0, 0), x_dir=(1, 0, 0), z_dir=(0, 1, 0))):
        Polygon((-252.660254038, 86), (-235.339745962, 86), (-244, 101), align=None)
    extrude(amount=-CUT_EXTRUDE2_DEPTH, mode=Mode.SUBTRACT)

    # Sketch15 → oring space (cut)
    with BuildSketch(Plane(origin=(0, 0, 0), x_dir=(1, 0, 0), z_dir=(0, 1, 0))):
        Circle(SKETCH15_R)
        Circle(SKETCH15_R_2, mode=Mode.SUBTRACT)
    extrude(amount=-ORING_SPACE_DEPTH, mode=Mode.SUBTRACT)


solid = part_17.part
